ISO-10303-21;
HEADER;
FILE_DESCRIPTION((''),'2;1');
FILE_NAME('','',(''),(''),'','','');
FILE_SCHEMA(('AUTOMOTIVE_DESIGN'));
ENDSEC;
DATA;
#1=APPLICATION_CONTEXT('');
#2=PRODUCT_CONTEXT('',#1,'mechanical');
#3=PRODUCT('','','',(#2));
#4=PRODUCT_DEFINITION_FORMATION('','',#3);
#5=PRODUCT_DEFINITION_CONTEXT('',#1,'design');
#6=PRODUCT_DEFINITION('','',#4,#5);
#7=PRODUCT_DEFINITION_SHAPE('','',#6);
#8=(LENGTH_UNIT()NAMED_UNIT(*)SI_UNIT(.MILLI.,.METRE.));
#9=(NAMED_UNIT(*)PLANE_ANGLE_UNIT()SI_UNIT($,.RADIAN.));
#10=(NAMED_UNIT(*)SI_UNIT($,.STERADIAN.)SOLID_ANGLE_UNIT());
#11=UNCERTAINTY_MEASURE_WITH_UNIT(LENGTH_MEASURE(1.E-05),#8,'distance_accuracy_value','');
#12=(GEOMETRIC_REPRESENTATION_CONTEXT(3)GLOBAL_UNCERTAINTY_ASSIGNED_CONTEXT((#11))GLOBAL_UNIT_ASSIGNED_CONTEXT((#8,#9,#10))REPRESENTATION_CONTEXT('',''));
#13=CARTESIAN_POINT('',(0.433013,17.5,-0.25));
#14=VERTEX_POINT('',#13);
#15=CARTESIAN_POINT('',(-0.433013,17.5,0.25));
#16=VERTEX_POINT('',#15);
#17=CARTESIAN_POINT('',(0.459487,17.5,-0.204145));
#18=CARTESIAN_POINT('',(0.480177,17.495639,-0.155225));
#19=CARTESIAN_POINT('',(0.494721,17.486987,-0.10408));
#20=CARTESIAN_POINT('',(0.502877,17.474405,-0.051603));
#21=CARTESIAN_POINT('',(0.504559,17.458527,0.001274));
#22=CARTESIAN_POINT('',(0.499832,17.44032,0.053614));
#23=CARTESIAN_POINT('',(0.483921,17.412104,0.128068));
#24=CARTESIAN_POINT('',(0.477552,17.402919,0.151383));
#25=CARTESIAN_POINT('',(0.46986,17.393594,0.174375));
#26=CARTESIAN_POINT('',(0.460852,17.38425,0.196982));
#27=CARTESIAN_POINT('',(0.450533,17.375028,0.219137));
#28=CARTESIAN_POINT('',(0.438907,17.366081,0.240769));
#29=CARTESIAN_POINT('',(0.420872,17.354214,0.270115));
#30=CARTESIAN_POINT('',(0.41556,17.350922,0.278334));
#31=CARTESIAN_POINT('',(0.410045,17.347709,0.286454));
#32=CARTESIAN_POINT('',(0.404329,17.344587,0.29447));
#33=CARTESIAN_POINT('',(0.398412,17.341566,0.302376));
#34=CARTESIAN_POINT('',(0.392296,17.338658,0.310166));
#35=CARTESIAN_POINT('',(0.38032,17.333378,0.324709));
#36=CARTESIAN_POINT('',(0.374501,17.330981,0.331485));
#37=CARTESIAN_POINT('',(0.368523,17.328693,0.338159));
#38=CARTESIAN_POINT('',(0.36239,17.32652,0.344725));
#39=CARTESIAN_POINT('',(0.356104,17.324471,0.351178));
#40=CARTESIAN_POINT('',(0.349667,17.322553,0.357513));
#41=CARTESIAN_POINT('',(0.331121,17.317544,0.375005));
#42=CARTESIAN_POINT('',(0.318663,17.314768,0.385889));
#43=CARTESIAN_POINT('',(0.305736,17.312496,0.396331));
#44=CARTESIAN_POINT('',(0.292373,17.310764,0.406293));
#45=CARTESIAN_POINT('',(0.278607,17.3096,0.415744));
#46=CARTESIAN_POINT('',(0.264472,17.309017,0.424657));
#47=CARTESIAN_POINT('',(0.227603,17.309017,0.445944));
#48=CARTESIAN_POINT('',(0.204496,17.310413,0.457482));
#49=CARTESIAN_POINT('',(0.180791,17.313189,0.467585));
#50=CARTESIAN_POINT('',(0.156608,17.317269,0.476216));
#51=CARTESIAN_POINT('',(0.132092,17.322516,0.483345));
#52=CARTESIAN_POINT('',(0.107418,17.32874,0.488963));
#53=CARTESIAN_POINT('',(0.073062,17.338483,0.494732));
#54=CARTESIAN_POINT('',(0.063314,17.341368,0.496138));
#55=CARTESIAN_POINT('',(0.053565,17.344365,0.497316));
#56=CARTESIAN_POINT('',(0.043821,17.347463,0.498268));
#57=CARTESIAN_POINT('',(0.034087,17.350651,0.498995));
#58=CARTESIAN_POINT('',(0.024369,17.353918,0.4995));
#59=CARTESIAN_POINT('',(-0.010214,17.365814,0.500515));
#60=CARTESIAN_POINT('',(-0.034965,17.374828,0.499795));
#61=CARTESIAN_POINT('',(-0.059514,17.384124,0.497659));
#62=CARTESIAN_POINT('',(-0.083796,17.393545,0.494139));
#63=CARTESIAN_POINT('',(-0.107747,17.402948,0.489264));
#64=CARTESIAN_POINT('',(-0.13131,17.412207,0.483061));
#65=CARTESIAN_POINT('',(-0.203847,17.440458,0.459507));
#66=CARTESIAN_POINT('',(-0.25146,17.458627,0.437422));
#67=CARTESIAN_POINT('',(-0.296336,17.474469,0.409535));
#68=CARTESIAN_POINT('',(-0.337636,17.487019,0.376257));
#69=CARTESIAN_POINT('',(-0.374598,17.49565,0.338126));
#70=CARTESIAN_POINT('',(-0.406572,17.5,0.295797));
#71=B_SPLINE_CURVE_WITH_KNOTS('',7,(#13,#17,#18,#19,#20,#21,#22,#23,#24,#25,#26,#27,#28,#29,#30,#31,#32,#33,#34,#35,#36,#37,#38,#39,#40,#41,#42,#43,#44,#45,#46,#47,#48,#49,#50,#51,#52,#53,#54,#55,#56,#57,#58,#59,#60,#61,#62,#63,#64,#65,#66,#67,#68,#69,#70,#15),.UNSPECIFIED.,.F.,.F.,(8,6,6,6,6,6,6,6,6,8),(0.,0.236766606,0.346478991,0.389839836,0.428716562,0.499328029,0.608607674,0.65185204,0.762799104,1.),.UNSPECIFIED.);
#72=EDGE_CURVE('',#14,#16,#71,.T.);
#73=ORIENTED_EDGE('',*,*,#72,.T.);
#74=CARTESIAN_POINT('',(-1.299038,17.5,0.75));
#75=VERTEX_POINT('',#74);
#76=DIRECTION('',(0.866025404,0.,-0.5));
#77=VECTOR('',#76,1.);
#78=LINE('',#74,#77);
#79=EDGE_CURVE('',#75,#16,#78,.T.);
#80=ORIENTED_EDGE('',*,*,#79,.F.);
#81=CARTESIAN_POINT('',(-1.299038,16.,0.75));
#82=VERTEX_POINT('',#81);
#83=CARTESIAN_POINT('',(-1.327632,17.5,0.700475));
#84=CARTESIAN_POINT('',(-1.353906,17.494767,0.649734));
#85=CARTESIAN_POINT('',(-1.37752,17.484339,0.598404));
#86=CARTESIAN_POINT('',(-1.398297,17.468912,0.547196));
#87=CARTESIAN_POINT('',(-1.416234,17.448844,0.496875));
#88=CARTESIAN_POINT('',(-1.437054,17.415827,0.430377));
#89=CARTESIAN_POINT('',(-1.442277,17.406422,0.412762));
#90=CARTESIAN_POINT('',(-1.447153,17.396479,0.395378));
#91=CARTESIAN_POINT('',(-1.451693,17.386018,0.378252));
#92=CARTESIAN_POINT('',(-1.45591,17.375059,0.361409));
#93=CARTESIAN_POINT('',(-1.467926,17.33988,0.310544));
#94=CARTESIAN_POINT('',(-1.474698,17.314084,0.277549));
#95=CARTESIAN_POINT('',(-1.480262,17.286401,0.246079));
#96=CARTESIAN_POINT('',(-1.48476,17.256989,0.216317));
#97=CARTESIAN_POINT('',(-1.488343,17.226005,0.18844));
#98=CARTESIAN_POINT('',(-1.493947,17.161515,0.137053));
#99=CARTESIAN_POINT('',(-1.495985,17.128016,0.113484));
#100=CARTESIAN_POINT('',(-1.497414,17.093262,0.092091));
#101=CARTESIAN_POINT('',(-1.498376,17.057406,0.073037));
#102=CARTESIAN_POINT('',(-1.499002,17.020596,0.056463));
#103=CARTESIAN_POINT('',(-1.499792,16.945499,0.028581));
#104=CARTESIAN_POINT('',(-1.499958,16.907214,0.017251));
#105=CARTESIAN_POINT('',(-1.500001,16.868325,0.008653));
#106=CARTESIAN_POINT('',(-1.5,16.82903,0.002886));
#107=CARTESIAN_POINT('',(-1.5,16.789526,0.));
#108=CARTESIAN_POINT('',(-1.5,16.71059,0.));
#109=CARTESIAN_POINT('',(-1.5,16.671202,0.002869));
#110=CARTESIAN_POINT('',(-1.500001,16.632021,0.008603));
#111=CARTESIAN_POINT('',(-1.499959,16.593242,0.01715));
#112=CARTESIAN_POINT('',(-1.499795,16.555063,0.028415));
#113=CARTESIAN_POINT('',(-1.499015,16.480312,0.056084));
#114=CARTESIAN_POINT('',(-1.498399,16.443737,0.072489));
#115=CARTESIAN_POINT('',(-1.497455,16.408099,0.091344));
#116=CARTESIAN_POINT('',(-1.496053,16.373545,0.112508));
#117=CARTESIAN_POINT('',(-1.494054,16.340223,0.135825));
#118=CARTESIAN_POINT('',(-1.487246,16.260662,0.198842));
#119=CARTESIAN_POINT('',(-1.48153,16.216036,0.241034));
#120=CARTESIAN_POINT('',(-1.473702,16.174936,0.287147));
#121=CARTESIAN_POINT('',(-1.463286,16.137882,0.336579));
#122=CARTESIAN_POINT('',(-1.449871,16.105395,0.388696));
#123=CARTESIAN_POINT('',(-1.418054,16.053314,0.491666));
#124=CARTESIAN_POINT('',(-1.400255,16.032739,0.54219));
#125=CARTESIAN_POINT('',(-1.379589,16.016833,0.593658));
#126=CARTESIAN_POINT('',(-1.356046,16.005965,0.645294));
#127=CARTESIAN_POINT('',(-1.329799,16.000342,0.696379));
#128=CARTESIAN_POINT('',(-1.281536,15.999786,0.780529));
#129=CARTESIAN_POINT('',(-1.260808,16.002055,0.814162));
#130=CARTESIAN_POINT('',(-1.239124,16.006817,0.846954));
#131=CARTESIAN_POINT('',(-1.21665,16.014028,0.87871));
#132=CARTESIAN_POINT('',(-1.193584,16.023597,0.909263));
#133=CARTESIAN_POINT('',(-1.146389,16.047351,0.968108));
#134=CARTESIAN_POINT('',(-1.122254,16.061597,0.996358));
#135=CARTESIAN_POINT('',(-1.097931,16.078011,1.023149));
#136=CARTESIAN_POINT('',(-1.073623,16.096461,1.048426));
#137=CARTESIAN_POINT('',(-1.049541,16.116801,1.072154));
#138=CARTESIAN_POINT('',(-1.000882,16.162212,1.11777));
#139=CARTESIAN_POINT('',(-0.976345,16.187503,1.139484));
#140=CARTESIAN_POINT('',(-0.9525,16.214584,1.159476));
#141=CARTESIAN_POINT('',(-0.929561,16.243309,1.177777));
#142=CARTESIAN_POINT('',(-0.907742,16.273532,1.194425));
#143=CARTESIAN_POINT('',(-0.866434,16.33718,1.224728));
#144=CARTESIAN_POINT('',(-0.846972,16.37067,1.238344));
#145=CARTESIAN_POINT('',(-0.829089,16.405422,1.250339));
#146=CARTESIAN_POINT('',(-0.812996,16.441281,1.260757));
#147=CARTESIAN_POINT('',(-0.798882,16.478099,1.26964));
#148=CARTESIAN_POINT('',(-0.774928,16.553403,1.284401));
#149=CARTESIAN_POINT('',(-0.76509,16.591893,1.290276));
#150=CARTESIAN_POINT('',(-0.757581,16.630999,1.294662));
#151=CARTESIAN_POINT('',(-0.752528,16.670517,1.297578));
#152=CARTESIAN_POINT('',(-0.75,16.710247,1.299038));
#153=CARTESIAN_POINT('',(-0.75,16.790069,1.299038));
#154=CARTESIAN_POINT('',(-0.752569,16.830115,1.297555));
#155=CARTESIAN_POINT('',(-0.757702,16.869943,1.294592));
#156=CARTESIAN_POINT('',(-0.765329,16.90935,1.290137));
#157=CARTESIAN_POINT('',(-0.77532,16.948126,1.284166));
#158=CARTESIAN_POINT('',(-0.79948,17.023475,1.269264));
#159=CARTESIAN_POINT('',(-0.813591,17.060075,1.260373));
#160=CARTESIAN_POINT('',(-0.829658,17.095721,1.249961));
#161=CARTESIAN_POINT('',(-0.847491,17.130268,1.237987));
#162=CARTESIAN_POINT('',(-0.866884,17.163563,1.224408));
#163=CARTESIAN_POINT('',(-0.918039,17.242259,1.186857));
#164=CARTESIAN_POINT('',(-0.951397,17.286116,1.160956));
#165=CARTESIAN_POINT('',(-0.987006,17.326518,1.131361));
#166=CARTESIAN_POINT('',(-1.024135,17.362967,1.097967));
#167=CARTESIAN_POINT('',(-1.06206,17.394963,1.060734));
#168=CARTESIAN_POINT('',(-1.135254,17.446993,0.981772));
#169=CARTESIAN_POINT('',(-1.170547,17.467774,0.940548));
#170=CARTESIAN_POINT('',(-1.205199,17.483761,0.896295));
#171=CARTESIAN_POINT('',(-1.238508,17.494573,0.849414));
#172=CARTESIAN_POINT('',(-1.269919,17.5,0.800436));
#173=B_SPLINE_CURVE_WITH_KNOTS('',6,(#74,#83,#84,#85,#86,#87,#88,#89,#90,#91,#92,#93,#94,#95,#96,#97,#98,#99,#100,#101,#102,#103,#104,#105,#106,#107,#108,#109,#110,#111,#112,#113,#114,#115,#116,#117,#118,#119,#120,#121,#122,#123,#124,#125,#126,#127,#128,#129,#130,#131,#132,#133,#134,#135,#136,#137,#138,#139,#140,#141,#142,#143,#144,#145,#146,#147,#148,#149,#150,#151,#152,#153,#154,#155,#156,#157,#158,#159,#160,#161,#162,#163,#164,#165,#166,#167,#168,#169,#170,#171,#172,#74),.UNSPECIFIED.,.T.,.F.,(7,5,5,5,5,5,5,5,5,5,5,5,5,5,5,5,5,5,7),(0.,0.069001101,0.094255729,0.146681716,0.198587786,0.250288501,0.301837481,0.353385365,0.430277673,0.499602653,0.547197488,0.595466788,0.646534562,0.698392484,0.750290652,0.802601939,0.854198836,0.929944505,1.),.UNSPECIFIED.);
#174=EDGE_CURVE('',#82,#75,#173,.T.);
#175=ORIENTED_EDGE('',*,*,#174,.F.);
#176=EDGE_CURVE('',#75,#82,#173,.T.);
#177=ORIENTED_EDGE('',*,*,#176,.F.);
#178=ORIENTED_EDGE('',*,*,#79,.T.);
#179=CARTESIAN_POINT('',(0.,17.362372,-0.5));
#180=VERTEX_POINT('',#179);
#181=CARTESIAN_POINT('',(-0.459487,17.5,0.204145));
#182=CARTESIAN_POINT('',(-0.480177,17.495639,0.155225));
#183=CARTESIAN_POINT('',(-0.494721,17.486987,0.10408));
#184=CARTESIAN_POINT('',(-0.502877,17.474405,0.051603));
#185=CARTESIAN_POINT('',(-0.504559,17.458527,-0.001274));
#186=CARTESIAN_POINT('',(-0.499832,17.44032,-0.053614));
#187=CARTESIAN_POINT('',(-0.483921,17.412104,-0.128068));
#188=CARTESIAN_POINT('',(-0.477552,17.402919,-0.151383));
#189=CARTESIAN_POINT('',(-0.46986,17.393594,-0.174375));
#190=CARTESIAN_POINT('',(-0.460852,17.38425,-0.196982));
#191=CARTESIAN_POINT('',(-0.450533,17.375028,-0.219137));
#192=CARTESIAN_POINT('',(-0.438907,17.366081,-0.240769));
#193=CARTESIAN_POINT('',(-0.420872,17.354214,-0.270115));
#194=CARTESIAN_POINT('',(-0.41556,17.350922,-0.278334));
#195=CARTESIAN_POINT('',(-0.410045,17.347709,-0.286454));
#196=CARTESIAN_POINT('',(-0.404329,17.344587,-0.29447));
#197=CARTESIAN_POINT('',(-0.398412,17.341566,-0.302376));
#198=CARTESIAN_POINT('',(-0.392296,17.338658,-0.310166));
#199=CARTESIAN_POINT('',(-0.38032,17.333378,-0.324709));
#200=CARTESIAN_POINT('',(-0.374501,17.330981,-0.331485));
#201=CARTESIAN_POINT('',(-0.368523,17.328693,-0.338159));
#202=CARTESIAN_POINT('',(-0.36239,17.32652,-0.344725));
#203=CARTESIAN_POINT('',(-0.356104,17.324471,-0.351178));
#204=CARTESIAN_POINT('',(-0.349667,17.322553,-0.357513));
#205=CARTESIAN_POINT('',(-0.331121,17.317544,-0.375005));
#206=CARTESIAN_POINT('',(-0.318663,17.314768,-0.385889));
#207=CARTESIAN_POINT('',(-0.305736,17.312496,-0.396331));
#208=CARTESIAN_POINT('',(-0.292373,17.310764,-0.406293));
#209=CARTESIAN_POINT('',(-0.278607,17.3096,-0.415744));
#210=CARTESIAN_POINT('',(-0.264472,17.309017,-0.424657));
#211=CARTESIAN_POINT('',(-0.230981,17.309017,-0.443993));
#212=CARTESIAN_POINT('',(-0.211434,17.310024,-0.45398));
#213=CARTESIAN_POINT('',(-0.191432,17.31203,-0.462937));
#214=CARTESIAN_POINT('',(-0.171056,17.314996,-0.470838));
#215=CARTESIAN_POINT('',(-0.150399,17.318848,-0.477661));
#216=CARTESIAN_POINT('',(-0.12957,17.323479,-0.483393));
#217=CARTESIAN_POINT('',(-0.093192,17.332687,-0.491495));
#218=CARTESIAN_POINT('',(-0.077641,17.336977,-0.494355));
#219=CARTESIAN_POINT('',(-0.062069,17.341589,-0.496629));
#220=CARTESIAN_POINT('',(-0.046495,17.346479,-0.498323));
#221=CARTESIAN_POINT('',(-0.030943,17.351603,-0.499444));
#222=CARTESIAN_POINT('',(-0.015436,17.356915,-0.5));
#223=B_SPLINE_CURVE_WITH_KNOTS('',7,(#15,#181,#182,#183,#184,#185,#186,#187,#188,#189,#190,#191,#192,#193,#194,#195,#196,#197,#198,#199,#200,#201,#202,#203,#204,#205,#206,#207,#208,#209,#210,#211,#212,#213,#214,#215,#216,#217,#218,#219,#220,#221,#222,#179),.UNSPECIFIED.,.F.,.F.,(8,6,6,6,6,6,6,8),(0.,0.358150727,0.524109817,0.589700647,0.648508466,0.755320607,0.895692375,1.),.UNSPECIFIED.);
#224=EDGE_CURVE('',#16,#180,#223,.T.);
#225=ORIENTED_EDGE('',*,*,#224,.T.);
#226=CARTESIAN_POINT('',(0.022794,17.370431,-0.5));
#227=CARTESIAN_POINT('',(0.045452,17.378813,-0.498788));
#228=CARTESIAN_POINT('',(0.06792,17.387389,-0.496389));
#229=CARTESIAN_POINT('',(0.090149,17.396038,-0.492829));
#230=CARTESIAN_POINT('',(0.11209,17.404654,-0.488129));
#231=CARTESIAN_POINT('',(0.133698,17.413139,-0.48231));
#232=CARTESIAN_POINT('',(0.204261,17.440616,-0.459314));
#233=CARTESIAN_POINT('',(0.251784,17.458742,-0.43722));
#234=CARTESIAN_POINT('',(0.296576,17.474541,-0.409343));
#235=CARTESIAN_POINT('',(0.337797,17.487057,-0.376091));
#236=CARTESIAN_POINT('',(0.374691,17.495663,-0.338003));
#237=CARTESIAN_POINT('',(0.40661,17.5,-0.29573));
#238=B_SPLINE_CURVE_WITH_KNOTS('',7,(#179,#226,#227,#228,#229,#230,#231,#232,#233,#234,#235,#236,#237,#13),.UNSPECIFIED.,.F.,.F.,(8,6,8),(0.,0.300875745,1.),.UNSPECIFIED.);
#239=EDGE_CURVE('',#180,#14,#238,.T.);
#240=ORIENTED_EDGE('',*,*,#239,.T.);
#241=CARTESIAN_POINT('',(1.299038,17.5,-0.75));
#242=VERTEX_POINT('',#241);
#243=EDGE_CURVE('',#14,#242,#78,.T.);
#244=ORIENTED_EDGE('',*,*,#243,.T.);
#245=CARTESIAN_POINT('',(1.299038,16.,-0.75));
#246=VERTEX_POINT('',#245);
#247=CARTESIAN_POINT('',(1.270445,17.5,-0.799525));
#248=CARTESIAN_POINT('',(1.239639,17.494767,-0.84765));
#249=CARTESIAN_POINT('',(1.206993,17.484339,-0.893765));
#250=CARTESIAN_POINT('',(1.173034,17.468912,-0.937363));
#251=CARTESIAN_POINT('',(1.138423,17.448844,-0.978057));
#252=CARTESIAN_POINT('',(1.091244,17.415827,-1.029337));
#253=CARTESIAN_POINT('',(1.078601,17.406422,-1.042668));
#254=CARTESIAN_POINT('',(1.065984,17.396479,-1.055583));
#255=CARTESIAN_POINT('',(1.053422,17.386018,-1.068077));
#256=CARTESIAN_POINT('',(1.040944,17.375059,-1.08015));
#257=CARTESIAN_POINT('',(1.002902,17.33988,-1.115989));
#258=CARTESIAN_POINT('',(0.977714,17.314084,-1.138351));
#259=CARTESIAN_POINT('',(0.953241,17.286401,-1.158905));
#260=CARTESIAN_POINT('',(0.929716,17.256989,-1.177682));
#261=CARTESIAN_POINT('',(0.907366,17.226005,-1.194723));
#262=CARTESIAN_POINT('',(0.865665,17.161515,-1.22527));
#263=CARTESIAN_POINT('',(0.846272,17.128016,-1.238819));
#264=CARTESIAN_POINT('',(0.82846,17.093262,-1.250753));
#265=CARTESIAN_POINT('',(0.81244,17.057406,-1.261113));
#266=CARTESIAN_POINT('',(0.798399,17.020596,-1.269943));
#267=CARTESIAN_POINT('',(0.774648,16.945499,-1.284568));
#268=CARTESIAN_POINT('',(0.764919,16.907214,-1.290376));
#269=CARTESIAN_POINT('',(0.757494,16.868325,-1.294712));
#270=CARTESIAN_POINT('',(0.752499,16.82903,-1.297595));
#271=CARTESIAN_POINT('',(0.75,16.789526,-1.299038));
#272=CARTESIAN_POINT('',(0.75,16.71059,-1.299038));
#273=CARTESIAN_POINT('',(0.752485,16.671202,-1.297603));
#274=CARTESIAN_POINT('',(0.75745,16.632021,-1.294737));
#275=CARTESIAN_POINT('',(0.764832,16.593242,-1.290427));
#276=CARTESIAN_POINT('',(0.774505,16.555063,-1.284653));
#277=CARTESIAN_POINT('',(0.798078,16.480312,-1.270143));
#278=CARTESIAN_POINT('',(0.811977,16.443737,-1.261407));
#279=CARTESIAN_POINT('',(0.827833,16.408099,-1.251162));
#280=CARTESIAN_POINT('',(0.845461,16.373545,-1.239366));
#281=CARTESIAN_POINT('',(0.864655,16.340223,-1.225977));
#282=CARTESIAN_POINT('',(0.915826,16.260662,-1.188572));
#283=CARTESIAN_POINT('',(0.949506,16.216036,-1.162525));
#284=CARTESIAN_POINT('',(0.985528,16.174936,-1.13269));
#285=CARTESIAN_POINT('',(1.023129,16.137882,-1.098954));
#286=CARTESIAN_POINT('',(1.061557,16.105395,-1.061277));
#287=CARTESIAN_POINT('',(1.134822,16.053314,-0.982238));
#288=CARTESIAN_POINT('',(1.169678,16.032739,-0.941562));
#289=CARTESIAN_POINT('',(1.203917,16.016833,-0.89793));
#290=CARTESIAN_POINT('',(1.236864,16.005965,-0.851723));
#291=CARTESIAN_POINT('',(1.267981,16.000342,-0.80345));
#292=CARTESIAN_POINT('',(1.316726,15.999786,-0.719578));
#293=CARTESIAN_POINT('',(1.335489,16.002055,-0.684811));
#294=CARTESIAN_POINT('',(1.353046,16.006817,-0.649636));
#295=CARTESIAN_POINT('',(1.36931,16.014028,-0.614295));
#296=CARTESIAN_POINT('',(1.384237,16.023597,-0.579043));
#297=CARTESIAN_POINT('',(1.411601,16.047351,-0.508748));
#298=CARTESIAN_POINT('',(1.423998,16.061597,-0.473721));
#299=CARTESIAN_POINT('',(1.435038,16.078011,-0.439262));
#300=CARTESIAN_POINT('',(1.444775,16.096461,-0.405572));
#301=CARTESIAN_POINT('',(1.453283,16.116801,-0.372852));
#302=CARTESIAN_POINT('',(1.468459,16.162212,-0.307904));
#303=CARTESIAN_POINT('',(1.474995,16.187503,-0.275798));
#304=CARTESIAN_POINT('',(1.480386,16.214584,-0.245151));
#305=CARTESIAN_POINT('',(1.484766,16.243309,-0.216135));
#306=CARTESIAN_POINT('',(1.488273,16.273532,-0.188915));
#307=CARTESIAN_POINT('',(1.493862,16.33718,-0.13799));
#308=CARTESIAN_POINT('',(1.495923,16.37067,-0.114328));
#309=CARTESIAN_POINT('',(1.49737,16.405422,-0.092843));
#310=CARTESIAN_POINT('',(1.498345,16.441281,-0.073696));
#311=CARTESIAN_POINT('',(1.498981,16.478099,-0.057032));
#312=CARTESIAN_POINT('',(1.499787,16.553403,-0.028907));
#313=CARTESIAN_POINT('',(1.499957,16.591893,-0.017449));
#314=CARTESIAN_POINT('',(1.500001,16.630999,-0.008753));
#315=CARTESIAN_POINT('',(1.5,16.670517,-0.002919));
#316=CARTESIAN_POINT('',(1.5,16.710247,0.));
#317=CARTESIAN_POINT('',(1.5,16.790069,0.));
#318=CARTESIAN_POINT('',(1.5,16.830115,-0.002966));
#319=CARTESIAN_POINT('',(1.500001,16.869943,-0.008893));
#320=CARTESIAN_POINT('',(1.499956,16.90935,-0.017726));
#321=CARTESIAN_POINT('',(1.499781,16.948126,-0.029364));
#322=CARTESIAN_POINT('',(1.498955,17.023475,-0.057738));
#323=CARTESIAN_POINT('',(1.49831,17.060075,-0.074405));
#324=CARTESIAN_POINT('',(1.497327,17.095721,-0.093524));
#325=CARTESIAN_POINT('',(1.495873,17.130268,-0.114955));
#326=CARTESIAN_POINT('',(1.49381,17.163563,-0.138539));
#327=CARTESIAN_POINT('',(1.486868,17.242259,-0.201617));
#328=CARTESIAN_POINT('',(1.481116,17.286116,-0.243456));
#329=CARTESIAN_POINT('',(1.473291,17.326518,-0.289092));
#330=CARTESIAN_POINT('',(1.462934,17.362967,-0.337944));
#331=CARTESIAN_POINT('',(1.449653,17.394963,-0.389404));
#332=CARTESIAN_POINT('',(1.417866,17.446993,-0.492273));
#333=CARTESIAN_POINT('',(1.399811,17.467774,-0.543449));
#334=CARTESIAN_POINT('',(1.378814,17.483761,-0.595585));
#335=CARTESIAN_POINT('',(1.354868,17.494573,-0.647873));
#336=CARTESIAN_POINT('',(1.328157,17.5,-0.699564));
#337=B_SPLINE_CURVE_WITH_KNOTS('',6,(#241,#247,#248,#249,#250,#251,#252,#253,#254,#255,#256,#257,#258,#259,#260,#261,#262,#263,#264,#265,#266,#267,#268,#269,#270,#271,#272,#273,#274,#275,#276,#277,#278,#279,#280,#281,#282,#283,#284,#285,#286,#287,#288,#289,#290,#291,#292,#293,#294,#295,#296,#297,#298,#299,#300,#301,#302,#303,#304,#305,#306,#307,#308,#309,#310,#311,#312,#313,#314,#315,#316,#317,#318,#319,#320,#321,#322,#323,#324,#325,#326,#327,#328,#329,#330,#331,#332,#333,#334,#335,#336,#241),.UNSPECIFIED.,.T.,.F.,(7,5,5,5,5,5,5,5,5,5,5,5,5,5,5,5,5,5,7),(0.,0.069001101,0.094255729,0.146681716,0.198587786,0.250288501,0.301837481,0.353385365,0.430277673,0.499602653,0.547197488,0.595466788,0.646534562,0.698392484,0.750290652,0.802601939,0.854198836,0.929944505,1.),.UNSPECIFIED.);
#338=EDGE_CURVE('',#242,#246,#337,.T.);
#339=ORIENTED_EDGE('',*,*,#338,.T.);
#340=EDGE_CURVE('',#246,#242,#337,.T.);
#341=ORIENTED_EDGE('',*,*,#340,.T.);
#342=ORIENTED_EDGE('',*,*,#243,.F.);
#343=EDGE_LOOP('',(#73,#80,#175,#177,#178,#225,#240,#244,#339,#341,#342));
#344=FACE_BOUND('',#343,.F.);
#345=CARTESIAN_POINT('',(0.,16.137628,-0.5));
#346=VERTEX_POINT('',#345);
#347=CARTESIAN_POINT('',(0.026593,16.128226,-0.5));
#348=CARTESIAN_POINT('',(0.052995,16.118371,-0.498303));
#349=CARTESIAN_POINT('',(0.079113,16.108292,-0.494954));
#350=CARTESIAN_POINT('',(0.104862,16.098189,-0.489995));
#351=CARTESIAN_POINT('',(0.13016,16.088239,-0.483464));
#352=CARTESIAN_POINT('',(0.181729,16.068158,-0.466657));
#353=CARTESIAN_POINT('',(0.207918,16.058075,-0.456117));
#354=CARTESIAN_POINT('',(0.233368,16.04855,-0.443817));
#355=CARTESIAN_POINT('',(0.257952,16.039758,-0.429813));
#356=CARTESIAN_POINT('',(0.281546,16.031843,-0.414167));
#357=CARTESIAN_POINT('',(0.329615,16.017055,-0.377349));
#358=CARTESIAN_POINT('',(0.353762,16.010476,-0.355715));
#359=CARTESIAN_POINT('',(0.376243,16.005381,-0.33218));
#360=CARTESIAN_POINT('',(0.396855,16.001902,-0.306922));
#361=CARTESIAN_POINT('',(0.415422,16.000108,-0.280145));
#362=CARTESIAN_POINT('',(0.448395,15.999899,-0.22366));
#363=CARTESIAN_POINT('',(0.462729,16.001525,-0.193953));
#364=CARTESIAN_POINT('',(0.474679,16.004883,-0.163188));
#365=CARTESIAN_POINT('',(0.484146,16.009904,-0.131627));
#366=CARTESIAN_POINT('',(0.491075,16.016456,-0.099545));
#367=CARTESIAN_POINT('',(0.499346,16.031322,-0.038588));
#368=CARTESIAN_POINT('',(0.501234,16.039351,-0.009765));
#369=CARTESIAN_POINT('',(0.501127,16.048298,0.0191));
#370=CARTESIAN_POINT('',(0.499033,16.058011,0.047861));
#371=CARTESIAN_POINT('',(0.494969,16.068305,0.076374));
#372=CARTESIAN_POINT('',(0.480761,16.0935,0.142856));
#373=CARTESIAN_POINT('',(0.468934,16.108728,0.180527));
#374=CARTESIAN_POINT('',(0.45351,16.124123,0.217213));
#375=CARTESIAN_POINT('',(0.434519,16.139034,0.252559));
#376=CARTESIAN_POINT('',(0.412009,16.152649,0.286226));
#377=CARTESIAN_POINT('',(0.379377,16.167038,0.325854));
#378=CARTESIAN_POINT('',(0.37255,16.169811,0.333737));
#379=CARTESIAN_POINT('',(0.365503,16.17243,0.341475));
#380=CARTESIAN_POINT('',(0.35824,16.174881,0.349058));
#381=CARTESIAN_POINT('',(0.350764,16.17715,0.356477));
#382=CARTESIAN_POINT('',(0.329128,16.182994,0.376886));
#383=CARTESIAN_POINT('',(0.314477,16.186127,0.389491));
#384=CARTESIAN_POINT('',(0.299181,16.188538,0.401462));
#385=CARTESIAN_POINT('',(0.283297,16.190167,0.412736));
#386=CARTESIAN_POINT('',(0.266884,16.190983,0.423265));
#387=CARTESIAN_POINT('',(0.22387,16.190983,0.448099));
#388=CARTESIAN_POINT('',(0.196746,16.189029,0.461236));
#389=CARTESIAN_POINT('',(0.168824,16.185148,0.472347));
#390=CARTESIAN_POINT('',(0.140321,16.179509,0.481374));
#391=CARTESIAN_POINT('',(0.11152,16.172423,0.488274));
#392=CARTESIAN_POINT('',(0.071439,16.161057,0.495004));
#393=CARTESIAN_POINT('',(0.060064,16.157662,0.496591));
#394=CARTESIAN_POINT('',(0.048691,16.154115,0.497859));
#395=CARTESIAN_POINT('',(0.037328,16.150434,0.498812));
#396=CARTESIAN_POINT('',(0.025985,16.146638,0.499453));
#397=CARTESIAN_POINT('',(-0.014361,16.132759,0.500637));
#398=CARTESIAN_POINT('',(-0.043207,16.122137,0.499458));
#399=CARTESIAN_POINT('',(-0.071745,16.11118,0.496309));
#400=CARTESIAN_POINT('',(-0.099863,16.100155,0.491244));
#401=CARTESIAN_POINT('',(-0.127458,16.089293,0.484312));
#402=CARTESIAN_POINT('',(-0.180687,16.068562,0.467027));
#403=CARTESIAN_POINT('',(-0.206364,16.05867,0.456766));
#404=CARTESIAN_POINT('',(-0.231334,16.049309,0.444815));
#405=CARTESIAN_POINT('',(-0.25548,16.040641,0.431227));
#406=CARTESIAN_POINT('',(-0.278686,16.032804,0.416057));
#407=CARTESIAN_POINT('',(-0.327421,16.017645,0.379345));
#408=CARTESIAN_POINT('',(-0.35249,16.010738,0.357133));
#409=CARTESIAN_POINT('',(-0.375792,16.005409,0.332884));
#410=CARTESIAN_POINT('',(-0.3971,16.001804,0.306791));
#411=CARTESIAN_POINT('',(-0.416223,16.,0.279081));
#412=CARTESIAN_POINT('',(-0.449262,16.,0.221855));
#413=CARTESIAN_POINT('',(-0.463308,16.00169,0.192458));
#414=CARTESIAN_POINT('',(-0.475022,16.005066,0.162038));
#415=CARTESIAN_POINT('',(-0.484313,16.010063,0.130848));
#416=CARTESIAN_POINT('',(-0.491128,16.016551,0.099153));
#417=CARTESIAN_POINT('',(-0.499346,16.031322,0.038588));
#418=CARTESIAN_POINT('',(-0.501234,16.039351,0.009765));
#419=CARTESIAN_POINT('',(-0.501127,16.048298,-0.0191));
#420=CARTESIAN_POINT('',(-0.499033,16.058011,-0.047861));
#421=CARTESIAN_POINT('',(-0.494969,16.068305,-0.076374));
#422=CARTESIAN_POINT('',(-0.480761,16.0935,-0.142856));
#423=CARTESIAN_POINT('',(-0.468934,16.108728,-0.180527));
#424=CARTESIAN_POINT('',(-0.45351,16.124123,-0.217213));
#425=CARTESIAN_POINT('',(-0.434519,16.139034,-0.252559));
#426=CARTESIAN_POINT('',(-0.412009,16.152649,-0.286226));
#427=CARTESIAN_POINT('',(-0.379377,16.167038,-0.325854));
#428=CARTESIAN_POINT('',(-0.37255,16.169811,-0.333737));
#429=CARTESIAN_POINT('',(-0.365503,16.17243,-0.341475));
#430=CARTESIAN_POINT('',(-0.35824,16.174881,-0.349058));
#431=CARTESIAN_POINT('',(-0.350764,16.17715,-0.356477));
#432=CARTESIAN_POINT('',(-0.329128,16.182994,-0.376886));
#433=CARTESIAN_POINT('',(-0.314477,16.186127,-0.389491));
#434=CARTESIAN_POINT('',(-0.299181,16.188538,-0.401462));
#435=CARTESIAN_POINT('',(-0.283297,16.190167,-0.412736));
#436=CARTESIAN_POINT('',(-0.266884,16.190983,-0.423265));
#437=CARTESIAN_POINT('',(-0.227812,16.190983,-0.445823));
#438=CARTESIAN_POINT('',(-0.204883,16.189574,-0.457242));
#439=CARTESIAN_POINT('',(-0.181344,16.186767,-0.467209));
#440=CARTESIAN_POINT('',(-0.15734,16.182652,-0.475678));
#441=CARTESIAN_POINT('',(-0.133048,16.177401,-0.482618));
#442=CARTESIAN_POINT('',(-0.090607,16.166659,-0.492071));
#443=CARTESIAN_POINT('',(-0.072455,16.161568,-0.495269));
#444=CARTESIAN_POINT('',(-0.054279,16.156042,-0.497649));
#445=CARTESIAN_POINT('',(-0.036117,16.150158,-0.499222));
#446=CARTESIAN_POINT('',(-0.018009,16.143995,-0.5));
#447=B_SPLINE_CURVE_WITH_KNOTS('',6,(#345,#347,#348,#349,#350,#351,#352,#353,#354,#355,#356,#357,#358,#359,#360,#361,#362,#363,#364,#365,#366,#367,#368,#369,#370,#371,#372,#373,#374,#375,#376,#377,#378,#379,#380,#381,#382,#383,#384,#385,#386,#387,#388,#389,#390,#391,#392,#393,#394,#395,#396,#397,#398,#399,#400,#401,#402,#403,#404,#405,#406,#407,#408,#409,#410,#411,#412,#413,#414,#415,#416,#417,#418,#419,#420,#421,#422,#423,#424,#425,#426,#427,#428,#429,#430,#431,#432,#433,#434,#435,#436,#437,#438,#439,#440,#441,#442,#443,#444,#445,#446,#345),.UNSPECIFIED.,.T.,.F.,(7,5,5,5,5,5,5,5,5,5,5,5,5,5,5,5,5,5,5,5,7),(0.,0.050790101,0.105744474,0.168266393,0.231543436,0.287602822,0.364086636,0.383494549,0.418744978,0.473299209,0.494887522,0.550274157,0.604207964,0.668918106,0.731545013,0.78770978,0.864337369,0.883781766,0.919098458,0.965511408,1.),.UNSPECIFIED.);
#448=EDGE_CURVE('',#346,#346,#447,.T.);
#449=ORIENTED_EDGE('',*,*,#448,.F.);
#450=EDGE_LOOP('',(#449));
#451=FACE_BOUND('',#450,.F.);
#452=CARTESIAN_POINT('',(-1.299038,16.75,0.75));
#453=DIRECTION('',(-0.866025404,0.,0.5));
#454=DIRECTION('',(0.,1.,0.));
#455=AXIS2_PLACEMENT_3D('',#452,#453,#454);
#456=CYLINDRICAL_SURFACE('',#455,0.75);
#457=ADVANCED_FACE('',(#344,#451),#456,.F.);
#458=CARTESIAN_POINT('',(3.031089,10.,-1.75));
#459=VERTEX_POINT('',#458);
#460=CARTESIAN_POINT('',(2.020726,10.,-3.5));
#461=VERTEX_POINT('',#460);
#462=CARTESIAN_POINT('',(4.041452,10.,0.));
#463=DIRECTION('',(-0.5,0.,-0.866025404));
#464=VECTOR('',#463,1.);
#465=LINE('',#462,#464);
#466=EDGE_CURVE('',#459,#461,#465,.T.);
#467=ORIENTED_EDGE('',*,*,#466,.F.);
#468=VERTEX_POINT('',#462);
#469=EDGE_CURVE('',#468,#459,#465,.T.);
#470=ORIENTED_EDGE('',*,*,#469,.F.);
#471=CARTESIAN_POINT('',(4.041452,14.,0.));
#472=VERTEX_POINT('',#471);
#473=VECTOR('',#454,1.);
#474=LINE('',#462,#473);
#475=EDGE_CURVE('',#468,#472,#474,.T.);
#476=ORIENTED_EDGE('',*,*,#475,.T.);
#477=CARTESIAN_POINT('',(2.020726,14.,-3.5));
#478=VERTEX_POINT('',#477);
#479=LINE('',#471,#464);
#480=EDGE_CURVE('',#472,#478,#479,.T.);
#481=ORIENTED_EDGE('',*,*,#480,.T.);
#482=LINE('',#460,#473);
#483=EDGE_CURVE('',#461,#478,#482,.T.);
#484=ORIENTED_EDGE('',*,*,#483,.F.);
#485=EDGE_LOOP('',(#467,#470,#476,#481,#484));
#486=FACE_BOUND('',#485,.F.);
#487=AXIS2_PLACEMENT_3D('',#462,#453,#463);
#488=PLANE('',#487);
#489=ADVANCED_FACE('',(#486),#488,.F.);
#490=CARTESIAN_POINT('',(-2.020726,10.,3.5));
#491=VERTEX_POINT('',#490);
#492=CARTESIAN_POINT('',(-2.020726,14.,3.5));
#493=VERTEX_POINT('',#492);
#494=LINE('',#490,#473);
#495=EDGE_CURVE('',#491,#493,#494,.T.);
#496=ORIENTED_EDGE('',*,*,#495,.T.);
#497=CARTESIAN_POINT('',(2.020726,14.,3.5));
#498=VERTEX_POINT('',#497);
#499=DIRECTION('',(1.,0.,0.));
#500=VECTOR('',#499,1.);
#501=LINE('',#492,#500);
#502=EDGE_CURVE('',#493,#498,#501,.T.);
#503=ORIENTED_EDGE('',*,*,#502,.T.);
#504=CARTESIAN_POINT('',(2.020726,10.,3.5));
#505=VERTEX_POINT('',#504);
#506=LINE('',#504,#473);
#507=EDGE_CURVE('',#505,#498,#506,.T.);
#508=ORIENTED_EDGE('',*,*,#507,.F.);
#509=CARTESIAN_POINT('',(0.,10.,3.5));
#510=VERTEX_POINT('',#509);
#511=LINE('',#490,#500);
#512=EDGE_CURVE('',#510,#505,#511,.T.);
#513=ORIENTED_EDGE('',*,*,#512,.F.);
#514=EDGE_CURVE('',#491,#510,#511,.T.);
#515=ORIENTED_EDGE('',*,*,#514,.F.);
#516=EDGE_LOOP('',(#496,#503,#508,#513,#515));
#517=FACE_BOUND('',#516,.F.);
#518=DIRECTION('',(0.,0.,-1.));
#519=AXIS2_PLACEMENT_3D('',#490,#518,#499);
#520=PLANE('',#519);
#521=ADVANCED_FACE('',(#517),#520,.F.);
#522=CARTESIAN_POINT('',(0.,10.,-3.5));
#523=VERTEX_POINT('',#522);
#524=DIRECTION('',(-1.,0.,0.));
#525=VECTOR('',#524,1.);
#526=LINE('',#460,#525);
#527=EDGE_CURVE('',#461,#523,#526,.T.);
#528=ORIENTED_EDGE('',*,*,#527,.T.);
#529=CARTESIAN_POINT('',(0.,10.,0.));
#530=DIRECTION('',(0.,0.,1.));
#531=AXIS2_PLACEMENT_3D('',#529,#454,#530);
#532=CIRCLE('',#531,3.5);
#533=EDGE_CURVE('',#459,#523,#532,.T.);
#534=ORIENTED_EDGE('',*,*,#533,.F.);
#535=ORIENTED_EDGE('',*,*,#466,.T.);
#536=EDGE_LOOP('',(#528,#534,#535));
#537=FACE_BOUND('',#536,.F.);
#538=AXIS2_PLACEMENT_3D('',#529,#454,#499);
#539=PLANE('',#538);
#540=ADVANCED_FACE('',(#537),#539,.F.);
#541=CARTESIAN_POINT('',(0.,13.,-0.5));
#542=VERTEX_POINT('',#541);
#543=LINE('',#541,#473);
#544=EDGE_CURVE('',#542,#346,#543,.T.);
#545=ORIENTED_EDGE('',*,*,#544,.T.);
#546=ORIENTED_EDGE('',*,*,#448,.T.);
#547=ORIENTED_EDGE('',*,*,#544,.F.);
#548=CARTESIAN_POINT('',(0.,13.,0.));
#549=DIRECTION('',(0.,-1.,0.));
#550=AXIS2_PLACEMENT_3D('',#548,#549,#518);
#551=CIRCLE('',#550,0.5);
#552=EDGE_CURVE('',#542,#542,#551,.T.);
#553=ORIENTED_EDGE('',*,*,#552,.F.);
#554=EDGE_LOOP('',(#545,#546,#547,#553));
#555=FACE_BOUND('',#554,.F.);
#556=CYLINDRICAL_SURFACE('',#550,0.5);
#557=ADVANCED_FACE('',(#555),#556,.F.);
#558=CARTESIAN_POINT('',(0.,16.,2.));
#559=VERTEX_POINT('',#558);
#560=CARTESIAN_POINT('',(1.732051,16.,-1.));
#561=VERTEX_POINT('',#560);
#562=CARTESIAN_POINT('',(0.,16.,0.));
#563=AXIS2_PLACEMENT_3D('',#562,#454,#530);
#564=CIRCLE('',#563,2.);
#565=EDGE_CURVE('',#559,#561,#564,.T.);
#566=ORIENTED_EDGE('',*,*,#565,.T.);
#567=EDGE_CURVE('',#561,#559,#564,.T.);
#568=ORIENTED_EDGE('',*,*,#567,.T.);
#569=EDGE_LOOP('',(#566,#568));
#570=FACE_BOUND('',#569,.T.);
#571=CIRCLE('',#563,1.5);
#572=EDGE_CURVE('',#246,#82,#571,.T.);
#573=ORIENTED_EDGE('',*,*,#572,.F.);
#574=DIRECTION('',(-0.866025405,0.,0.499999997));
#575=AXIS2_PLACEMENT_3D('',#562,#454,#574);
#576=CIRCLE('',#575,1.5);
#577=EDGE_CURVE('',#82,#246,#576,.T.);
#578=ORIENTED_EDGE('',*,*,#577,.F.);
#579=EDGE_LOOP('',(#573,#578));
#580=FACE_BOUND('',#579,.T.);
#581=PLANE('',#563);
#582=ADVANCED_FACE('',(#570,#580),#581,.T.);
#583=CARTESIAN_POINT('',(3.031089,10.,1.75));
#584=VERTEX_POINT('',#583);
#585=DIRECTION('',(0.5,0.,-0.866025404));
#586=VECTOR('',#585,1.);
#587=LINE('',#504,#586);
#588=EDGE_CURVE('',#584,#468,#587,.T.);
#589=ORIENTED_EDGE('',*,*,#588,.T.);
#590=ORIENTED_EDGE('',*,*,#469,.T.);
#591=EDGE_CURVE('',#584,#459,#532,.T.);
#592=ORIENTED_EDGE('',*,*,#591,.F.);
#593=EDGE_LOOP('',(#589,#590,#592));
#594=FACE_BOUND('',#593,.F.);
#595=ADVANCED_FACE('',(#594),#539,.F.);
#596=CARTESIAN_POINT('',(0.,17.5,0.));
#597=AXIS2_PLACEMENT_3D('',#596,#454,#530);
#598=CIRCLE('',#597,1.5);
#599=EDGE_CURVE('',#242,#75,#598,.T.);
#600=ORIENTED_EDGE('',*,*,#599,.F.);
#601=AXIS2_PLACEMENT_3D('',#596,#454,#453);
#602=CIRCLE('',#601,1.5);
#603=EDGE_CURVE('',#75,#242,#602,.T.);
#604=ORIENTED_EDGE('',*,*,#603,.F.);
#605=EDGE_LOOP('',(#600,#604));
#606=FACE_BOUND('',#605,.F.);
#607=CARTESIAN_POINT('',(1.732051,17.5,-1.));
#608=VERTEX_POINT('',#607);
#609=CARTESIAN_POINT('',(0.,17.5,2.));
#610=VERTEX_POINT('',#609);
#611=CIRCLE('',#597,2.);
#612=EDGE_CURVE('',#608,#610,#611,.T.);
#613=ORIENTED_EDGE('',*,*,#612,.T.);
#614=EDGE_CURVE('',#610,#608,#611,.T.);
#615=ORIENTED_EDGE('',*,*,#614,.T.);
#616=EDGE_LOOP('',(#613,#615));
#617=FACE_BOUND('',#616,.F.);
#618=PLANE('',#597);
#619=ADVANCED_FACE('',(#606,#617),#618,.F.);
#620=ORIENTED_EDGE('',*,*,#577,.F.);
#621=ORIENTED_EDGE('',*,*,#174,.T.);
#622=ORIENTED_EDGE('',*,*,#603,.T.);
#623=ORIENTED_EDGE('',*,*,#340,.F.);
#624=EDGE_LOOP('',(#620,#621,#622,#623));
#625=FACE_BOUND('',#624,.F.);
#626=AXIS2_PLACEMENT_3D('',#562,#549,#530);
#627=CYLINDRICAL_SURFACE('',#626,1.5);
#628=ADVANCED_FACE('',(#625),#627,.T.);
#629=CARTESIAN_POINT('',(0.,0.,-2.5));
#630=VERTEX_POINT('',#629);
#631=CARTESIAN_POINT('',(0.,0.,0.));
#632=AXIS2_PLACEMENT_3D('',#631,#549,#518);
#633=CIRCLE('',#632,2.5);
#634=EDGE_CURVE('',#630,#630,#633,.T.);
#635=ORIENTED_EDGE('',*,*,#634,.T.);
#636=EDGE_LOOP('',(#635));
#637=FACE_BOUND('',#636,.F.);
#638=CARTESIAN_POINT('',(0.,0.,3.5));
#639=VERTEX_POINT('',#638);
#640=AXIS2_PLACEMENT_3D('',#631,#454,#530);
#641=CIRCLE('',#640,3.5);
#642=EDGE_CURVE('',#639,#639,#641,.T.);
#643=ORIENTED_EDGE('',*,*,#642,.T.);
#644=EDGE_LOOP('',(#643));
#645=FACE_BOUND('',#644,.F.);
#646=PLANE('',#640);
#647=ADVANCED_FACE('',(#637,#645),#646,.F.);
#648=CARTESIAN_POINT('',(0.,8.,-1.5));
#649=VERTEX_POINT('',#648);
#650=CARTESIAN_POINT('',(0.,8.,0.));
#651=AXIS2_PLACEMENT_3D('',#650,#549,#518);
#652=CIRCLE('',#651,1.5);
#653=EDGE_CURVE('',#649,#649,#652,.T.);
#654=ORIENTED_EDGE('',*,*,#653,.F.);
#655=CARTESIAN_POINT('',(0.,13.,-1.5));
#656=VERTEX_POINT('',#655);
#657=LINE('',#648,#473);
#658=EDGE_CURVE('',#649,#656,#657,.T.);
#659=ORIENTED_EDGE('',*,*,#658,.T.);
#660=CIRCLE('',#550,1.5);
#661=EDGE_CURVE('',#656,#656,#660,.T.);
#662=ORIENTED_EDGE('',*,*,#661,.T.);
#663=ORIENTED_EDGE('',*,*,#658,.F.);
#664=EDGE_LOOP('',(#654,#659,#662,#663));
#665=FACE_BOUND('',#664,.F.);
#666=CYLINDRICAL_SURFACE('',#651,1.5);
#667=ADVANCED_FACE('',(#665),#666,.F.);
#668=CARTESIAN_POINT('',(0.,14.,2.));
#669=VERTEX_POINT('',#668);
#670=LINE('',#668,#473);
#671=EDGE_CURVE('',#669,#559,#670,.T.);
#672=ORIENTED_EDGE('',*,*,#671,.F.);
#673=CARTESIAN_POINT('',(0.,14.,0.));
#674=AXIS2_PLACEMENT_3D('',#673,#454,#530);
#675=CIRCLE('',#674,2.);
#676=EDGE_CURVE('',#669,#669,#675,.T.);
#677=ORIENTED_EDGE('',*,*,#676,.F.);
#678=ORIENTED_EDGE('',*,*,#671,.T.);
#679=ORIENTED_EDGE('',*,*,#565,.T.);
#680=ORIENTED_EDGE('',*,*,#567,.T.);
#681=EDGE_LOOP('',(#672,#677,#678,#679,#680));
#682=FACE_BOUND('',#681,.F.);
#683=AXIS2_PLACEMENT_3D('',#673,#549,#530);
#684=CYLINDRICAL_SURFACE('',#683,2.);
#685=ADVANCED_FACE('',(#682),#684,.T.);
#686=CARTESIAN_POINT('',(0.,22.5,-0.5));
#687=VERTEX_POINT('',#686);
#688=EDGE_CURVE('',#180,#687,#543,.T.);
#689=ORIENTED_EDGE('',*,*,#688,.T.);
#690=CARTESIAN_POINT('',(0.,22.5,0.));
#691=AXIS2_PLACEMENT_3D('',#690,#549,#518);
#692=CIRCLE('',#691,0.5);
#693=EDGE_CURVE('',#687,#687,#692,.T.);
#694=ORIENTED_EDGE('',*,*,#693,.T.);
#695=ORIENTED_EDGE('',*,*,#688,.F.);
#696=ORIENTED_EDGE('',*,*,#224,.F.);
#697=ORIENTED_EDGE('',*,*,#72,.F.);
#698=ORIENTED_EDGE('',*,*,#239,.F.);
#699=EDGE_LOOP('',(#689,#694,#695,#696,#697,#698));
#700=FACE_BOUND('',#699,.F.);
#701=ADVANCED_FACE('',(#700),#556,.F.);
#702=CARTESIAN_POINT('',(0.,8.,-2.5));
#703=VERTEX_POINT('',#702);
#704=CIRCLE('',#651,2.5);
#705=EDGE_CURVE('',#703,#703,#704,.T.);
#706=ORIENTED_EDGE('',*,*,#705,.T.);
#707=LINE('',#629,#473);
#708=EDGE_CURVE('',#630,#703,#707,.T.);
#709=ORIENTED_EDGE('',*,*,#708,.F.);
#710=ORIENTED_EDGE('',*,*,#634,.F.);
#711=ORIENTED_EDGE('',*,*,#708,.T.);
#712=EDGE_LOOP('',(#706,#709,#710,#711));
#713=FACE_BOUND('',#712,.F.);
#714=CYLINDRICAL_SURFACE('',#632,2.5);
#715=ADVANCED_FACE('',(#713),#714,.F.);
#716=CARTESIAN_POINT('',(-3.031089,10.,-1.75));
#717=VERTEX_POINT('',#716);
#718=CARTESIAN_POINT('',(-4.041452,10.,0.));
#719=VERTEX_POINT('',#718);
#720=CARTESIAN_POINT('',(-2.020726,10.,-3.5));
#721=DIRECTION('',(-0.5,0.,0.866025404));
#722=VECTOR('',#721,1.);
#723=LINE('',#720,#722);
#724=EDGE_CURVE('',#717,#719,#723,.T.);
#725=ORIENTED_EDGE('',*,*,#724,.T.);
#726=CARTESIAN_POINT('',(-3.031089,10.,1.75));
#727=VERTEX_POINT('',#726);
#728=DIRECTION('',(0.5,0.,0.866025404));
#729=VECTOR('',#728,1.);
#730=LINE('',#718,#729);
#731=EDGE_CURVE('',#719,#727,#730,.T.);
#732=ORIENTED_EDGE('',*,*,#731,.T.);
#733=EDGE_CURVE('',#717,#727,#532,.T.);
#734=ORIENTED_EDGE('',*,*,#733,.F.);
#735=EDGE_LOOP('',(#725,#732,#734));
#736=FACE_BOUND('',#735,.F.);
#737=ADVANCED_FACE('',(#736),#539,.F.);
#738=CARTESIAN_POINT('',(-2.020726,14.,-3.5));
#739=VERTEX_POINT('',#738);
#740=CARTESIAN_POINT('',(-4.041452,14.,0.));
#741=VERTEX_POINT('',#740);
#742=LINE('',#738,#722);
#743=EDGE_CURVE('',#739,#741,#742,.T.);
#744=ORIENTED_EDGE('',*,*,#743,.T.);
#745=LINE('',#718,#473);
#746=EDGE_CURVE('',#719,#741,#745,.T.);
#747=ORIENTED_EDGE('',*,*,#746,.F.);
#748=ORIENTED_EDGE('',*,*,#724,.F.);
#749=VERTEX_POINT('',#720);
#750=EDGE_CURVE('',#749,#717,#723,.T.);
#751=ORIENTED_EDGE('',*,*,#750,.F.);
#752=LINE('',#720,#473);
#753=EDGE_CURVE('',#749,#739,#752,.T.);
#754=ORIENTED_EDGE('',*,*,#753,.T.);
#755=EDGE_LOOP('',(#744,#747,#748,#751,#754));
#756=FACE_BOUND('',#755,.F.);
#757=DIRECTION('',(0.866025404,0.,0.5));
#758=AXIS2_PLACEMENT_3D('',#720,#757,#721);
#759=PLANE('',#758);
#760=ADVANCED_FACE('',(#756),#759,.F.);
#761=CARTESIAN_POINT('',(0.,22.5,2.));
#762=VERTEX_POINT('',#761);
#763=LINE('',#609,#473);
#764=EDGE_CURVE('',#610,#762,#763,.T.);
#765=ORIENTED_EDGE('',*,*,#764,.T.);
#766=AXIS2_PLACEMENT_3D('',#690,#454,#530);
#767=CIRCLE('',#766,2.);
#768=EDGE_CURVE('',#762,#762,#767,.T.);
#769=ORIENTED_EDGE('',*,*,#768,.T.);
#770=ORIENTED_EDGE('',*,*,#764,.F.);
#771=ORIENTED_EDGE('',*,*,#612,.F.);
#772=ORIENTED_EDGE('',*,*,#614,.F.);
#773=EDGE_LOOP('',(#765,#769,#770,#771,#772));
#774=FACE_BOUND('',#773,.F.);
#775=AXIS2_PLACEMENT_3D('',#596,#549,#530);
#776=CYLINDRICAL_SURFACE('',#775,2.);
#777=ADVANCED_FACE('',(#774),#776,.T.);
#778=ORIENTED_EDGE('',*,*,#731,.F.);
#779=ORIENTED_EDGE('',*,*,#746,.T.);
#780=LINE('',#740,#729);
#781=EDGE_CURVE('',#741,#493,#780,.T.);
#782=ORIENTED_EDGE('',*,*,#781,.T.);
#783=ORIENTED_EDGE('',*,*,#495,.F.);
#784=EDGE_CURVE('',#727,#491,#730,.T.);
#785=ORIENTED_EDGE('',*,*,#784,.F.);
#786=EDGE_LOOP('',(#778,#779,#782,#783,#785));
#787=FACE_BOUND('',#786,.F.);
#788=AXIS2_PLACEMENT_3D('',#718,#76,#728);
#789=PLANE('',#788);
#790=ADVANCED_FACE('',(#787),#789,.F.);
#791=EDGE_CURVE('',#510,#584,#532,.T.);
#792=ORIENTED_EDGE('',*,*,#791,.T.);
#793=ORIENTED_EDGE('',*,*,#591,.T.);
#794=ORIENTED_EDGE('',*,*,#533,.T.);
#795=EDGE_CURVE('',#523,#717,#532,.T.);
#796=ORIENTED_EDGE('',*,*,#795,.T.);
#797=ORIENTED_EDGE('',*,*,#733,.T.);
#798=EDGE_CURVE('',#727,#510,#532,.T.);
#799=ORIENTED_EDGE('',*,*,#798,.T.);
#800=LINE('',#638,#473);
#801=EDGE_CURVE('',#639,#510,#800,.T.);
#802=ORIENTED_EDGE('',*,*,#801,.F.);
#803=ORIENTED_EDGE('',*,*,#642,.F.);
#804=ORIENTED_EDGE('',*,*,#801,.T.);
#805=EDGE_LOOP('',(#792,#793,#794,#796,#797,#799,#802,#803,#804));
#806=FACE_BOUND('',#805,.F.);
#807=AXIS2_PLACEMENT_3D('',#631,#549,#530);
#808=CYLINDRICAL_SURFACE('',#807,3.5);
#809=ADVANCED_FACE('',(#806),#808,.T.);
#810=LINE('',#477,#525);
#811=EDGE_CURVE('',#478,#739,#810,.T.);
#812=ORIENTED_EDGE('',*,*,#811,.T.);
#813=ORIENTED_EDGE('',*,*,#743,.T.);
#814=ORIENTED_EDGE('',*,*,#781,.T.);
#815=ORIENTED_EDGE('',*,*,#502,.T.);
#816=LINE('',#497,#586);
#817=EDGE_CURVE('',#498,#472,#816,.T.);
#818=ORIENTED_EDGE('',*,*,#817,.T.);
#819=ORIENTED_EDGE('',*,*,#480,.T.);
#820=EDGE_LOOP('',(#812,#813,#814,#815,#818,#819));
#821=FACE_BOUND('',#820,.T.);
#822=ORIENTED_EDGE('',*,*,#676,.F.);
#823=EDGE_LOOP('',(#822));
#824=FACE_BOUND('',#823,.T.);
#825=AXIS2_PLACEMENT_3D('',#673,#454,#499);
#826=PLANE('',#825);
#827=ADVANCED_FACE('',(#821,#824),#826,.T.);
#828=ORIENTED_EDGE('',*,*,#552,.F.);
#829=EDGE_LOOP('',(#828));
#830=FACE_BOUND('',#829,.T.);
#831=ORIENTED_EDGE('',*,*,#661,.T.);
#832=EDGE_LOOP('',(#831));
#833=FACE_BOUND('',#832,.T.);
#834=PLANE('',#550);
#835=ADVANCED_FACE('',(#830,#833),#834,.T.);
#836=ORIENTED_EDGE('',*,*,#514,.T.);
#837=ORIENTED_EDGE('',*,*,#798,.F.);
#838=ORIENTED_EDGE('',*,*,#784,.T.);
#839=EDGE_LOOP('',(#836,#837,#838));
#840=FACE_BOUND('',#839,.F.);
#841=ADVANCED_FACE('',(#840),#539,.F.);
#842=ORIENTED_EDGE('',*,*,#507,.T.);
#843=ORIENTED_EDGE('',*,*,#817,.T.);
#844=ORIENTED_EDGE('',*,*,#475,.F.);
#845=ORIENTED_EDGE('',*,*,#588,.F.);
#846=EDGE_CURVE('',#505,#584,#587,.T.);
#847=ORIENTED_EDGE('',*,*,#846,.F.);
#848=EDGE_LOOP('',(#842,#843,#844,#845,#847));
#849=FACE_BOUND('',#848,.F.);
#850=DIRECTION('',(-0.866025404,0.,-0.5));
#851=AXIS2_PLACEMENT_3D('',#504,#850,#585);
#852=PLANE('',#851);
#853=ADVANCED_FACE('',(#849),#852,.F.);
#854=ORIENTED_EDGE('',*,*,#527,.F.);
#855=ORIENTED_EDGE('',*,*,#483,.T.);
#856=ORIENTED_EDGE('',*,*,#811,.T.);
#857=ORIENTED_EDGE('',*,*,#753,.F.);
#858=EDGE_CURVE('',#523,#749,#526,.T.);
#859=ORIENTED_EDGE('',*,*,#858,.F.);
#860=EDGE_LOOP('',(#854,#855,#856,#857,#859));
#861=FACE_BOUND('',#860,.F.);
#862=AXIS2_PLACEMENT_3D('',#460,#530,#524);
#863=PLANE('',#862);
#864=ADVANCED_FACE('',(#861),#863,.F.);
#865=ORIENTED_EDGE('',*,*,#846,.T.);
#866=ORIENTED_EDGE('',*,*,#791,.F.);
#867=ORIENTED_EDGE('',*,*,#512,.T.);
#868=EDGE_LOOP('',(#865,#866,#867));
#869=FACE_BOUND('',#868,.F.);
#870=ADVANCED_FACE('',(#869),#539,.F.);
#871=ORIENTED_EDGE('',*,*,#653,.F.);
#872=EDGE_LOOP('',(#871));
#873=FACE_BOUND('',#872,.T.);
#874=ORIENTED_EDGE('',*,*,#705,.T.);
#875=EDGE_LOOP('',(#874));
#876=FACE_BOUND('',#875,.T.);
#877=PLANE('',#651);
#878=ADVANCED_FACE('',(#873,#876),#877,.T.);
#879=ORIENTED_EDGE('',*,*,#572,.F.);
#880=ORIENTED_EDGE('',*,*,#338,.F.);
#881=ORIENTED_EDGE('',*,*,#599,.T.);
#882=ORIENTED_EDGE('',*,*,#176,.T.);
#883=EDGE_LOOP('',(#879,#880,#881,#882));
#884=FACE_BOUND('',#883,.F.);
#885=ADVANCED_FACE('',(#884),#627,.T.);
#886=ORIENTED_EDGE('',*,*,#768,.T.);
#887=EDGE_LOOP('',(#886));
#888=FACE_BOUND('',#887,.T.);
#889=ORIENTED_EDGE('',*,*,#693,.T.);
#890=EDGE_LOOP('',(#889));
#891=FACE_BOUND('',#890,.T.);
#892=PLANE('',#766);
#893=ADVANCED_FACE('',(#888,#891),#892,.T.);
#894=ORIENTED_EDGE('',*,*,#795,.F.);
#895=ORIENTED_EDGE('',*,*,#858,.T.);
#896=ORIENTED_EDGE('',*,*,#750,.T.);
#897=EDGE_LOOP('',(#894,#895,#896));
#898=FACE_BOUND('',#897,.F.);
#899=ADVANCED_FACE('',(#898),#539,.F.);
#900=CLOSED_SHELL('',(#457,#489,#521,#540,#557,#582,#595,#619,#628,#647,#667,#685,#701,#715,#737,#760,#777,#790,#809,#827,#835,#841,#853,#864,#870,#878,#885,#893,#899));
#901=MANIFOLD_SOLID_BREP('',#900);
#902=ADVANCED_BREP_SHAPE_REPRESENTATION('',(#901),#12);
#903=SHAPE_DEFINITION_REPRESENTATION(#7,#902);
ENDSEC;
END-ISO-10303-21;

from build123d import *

# Parameters (mm, degrees)
SKETCH1_R           = 3.5
BOSS_EXTRUDE1_DEPTH = 10
BOSS_EXTRUDE2_DEPTH = 4
SKETCH3_R           = 2
BOSS_EXTRUDE3_DEPTH = 2
SKETCH4_R           = 1.5
BOSS_EXTRUDE4_DEPTH = 1.5
SKETCH5_R           = 2
BOSS_EXTRUDE5_DEPTH = 5
SKETCH6_R           = 0.75
CUT_EXTRUDE1_DEPTH  = 5
SKETCH7_R           = 2.5
CUT_EXTRUDE2_DEPTH  = 8
SKETCH8_R           = 1.5
CUT_EXTRUDE4_DEPTH  = 5
SKETCH9_R           = 0.5
CUT_EXTRUDE5_DEPTH  = 15.056433877


with BuildPart() as part:
    # Sketch1 → Boss-Extrude1 (new body)
    with BuildSketch(Plane(origin=(0, 0, 0), x_dir=(1, 0, 0), z_dir=(0, 1, 0))):
        with Locations(Location((0, 0, 0), (0, 0, 270))):
            Circle(SKETCH1_R)
    extrude(amount=BOSS_EXTRUDE1_DEPTH)

    # Sketch2 → Boss-Extrude2 (add)
    with BuildSketch(Plane(origin=(0, 10, 0), x_dir=(1, 0, 0), z_dir=(0, 1, 0))):
        Polygon((2.020725942, 3.5), (-2.020725942, 3.5), (-4.041451884, 0), (-2.020725942, -3.5), (2.020725942, -3.5), (4.041451884, 0), align=None)
    extrude(amount=BOSS_EXTRUDE2_DEPTH)

    # Sketch3 → Boss-Extrude3 (add)
    with BuildSketch(Plane(origin=(0, 14, 0), x_dir=(1, 0, 0), z_dir=(0, 1, 0))):
        with Locations(Location((0, 0, 0), (0, 0, 270))):
            Circle(SKETCH3_R)
    extrude(amount=BOSS_EXTRUDE3_DEPTH)

    # Sketch4 → Boss-Extrude4 (add)
    with BuildSketch(Plane(origin=(0, 16, 0), x_dir=(1, 0, 0), z_dir=(0, 1, 0))):
        with Locations(Location((0, 0, 0), (0, 0, 270))):
            Circle(SKETCH4_R)
    extrude(amount=BOSS_EXTRUDE4_DEPTH)

    # Sketch5 → Boss-Extrude5 (add)
    with BuildSketch(Plane(origin=(0, 17.5, 0), x_dir=(1, 0, 0), z_dir=(0, 1, 0))):
        with Locations(Location((0, 0, 0), (0, 0, 270))):
            Circle(SKETCH5_R)
    extrude(amount=BOSS_EXTRUDE5_DEPTH)

    # Sketch6 → Cut-Extrude1 (cut)
    with BuildSketch(Plane(origin=(-1.299038106, 0, 0.75), x_dir=(0.5000000000000026, 0, 0.8660254037844373), z_dir=(-0.8660254037844373, 0, 0.5000000000000026))):
        with Locations(Location((0, 16.75, 0), (0, 0, 90))):
            Circle(SKETCH6_R)
    extrude(amount=-CUT_EXTRUDE1_DEPTH, mode=Mode.SUBTRACT)

    # Sketch7 → Cut-Extrude2 (cut)
    with BuildSketch(Plane.XZ):
        with Locations(Location((0, 0, 0), (0, 0, 270))):
            Circle(SKETCH7_R)
    extrude(amount=-CUT_EXTRUDE2_DEPTH, mode=Mode.SUBTRACT)

    # Sketch8 → Cut-Extrude4 (cut)
    with BuildSketch(Plane.XZ.offset(-8)):
        with Locations(Location((0, 0, 0), (0, 0, 270))):
            Circle(SKETCH8_R)
    extrude(amount=-CUT_EXTRUDE4_DEPTH, mode=Mode.SUBTRACT)

    # Sketch9 → Cut-Extrude5 (cut, through all)
    with BuildSketch(Plane.XZ.offset(-13)):
        with Locations(Location((0, 0, 0), (0, 0, 270))):
            Circle(SKETCH9_R)
    extrude(amount=-CUT_EXTRUDE5_DEPTH, mode=Mode.SUBTRACT)


solid = part.part
